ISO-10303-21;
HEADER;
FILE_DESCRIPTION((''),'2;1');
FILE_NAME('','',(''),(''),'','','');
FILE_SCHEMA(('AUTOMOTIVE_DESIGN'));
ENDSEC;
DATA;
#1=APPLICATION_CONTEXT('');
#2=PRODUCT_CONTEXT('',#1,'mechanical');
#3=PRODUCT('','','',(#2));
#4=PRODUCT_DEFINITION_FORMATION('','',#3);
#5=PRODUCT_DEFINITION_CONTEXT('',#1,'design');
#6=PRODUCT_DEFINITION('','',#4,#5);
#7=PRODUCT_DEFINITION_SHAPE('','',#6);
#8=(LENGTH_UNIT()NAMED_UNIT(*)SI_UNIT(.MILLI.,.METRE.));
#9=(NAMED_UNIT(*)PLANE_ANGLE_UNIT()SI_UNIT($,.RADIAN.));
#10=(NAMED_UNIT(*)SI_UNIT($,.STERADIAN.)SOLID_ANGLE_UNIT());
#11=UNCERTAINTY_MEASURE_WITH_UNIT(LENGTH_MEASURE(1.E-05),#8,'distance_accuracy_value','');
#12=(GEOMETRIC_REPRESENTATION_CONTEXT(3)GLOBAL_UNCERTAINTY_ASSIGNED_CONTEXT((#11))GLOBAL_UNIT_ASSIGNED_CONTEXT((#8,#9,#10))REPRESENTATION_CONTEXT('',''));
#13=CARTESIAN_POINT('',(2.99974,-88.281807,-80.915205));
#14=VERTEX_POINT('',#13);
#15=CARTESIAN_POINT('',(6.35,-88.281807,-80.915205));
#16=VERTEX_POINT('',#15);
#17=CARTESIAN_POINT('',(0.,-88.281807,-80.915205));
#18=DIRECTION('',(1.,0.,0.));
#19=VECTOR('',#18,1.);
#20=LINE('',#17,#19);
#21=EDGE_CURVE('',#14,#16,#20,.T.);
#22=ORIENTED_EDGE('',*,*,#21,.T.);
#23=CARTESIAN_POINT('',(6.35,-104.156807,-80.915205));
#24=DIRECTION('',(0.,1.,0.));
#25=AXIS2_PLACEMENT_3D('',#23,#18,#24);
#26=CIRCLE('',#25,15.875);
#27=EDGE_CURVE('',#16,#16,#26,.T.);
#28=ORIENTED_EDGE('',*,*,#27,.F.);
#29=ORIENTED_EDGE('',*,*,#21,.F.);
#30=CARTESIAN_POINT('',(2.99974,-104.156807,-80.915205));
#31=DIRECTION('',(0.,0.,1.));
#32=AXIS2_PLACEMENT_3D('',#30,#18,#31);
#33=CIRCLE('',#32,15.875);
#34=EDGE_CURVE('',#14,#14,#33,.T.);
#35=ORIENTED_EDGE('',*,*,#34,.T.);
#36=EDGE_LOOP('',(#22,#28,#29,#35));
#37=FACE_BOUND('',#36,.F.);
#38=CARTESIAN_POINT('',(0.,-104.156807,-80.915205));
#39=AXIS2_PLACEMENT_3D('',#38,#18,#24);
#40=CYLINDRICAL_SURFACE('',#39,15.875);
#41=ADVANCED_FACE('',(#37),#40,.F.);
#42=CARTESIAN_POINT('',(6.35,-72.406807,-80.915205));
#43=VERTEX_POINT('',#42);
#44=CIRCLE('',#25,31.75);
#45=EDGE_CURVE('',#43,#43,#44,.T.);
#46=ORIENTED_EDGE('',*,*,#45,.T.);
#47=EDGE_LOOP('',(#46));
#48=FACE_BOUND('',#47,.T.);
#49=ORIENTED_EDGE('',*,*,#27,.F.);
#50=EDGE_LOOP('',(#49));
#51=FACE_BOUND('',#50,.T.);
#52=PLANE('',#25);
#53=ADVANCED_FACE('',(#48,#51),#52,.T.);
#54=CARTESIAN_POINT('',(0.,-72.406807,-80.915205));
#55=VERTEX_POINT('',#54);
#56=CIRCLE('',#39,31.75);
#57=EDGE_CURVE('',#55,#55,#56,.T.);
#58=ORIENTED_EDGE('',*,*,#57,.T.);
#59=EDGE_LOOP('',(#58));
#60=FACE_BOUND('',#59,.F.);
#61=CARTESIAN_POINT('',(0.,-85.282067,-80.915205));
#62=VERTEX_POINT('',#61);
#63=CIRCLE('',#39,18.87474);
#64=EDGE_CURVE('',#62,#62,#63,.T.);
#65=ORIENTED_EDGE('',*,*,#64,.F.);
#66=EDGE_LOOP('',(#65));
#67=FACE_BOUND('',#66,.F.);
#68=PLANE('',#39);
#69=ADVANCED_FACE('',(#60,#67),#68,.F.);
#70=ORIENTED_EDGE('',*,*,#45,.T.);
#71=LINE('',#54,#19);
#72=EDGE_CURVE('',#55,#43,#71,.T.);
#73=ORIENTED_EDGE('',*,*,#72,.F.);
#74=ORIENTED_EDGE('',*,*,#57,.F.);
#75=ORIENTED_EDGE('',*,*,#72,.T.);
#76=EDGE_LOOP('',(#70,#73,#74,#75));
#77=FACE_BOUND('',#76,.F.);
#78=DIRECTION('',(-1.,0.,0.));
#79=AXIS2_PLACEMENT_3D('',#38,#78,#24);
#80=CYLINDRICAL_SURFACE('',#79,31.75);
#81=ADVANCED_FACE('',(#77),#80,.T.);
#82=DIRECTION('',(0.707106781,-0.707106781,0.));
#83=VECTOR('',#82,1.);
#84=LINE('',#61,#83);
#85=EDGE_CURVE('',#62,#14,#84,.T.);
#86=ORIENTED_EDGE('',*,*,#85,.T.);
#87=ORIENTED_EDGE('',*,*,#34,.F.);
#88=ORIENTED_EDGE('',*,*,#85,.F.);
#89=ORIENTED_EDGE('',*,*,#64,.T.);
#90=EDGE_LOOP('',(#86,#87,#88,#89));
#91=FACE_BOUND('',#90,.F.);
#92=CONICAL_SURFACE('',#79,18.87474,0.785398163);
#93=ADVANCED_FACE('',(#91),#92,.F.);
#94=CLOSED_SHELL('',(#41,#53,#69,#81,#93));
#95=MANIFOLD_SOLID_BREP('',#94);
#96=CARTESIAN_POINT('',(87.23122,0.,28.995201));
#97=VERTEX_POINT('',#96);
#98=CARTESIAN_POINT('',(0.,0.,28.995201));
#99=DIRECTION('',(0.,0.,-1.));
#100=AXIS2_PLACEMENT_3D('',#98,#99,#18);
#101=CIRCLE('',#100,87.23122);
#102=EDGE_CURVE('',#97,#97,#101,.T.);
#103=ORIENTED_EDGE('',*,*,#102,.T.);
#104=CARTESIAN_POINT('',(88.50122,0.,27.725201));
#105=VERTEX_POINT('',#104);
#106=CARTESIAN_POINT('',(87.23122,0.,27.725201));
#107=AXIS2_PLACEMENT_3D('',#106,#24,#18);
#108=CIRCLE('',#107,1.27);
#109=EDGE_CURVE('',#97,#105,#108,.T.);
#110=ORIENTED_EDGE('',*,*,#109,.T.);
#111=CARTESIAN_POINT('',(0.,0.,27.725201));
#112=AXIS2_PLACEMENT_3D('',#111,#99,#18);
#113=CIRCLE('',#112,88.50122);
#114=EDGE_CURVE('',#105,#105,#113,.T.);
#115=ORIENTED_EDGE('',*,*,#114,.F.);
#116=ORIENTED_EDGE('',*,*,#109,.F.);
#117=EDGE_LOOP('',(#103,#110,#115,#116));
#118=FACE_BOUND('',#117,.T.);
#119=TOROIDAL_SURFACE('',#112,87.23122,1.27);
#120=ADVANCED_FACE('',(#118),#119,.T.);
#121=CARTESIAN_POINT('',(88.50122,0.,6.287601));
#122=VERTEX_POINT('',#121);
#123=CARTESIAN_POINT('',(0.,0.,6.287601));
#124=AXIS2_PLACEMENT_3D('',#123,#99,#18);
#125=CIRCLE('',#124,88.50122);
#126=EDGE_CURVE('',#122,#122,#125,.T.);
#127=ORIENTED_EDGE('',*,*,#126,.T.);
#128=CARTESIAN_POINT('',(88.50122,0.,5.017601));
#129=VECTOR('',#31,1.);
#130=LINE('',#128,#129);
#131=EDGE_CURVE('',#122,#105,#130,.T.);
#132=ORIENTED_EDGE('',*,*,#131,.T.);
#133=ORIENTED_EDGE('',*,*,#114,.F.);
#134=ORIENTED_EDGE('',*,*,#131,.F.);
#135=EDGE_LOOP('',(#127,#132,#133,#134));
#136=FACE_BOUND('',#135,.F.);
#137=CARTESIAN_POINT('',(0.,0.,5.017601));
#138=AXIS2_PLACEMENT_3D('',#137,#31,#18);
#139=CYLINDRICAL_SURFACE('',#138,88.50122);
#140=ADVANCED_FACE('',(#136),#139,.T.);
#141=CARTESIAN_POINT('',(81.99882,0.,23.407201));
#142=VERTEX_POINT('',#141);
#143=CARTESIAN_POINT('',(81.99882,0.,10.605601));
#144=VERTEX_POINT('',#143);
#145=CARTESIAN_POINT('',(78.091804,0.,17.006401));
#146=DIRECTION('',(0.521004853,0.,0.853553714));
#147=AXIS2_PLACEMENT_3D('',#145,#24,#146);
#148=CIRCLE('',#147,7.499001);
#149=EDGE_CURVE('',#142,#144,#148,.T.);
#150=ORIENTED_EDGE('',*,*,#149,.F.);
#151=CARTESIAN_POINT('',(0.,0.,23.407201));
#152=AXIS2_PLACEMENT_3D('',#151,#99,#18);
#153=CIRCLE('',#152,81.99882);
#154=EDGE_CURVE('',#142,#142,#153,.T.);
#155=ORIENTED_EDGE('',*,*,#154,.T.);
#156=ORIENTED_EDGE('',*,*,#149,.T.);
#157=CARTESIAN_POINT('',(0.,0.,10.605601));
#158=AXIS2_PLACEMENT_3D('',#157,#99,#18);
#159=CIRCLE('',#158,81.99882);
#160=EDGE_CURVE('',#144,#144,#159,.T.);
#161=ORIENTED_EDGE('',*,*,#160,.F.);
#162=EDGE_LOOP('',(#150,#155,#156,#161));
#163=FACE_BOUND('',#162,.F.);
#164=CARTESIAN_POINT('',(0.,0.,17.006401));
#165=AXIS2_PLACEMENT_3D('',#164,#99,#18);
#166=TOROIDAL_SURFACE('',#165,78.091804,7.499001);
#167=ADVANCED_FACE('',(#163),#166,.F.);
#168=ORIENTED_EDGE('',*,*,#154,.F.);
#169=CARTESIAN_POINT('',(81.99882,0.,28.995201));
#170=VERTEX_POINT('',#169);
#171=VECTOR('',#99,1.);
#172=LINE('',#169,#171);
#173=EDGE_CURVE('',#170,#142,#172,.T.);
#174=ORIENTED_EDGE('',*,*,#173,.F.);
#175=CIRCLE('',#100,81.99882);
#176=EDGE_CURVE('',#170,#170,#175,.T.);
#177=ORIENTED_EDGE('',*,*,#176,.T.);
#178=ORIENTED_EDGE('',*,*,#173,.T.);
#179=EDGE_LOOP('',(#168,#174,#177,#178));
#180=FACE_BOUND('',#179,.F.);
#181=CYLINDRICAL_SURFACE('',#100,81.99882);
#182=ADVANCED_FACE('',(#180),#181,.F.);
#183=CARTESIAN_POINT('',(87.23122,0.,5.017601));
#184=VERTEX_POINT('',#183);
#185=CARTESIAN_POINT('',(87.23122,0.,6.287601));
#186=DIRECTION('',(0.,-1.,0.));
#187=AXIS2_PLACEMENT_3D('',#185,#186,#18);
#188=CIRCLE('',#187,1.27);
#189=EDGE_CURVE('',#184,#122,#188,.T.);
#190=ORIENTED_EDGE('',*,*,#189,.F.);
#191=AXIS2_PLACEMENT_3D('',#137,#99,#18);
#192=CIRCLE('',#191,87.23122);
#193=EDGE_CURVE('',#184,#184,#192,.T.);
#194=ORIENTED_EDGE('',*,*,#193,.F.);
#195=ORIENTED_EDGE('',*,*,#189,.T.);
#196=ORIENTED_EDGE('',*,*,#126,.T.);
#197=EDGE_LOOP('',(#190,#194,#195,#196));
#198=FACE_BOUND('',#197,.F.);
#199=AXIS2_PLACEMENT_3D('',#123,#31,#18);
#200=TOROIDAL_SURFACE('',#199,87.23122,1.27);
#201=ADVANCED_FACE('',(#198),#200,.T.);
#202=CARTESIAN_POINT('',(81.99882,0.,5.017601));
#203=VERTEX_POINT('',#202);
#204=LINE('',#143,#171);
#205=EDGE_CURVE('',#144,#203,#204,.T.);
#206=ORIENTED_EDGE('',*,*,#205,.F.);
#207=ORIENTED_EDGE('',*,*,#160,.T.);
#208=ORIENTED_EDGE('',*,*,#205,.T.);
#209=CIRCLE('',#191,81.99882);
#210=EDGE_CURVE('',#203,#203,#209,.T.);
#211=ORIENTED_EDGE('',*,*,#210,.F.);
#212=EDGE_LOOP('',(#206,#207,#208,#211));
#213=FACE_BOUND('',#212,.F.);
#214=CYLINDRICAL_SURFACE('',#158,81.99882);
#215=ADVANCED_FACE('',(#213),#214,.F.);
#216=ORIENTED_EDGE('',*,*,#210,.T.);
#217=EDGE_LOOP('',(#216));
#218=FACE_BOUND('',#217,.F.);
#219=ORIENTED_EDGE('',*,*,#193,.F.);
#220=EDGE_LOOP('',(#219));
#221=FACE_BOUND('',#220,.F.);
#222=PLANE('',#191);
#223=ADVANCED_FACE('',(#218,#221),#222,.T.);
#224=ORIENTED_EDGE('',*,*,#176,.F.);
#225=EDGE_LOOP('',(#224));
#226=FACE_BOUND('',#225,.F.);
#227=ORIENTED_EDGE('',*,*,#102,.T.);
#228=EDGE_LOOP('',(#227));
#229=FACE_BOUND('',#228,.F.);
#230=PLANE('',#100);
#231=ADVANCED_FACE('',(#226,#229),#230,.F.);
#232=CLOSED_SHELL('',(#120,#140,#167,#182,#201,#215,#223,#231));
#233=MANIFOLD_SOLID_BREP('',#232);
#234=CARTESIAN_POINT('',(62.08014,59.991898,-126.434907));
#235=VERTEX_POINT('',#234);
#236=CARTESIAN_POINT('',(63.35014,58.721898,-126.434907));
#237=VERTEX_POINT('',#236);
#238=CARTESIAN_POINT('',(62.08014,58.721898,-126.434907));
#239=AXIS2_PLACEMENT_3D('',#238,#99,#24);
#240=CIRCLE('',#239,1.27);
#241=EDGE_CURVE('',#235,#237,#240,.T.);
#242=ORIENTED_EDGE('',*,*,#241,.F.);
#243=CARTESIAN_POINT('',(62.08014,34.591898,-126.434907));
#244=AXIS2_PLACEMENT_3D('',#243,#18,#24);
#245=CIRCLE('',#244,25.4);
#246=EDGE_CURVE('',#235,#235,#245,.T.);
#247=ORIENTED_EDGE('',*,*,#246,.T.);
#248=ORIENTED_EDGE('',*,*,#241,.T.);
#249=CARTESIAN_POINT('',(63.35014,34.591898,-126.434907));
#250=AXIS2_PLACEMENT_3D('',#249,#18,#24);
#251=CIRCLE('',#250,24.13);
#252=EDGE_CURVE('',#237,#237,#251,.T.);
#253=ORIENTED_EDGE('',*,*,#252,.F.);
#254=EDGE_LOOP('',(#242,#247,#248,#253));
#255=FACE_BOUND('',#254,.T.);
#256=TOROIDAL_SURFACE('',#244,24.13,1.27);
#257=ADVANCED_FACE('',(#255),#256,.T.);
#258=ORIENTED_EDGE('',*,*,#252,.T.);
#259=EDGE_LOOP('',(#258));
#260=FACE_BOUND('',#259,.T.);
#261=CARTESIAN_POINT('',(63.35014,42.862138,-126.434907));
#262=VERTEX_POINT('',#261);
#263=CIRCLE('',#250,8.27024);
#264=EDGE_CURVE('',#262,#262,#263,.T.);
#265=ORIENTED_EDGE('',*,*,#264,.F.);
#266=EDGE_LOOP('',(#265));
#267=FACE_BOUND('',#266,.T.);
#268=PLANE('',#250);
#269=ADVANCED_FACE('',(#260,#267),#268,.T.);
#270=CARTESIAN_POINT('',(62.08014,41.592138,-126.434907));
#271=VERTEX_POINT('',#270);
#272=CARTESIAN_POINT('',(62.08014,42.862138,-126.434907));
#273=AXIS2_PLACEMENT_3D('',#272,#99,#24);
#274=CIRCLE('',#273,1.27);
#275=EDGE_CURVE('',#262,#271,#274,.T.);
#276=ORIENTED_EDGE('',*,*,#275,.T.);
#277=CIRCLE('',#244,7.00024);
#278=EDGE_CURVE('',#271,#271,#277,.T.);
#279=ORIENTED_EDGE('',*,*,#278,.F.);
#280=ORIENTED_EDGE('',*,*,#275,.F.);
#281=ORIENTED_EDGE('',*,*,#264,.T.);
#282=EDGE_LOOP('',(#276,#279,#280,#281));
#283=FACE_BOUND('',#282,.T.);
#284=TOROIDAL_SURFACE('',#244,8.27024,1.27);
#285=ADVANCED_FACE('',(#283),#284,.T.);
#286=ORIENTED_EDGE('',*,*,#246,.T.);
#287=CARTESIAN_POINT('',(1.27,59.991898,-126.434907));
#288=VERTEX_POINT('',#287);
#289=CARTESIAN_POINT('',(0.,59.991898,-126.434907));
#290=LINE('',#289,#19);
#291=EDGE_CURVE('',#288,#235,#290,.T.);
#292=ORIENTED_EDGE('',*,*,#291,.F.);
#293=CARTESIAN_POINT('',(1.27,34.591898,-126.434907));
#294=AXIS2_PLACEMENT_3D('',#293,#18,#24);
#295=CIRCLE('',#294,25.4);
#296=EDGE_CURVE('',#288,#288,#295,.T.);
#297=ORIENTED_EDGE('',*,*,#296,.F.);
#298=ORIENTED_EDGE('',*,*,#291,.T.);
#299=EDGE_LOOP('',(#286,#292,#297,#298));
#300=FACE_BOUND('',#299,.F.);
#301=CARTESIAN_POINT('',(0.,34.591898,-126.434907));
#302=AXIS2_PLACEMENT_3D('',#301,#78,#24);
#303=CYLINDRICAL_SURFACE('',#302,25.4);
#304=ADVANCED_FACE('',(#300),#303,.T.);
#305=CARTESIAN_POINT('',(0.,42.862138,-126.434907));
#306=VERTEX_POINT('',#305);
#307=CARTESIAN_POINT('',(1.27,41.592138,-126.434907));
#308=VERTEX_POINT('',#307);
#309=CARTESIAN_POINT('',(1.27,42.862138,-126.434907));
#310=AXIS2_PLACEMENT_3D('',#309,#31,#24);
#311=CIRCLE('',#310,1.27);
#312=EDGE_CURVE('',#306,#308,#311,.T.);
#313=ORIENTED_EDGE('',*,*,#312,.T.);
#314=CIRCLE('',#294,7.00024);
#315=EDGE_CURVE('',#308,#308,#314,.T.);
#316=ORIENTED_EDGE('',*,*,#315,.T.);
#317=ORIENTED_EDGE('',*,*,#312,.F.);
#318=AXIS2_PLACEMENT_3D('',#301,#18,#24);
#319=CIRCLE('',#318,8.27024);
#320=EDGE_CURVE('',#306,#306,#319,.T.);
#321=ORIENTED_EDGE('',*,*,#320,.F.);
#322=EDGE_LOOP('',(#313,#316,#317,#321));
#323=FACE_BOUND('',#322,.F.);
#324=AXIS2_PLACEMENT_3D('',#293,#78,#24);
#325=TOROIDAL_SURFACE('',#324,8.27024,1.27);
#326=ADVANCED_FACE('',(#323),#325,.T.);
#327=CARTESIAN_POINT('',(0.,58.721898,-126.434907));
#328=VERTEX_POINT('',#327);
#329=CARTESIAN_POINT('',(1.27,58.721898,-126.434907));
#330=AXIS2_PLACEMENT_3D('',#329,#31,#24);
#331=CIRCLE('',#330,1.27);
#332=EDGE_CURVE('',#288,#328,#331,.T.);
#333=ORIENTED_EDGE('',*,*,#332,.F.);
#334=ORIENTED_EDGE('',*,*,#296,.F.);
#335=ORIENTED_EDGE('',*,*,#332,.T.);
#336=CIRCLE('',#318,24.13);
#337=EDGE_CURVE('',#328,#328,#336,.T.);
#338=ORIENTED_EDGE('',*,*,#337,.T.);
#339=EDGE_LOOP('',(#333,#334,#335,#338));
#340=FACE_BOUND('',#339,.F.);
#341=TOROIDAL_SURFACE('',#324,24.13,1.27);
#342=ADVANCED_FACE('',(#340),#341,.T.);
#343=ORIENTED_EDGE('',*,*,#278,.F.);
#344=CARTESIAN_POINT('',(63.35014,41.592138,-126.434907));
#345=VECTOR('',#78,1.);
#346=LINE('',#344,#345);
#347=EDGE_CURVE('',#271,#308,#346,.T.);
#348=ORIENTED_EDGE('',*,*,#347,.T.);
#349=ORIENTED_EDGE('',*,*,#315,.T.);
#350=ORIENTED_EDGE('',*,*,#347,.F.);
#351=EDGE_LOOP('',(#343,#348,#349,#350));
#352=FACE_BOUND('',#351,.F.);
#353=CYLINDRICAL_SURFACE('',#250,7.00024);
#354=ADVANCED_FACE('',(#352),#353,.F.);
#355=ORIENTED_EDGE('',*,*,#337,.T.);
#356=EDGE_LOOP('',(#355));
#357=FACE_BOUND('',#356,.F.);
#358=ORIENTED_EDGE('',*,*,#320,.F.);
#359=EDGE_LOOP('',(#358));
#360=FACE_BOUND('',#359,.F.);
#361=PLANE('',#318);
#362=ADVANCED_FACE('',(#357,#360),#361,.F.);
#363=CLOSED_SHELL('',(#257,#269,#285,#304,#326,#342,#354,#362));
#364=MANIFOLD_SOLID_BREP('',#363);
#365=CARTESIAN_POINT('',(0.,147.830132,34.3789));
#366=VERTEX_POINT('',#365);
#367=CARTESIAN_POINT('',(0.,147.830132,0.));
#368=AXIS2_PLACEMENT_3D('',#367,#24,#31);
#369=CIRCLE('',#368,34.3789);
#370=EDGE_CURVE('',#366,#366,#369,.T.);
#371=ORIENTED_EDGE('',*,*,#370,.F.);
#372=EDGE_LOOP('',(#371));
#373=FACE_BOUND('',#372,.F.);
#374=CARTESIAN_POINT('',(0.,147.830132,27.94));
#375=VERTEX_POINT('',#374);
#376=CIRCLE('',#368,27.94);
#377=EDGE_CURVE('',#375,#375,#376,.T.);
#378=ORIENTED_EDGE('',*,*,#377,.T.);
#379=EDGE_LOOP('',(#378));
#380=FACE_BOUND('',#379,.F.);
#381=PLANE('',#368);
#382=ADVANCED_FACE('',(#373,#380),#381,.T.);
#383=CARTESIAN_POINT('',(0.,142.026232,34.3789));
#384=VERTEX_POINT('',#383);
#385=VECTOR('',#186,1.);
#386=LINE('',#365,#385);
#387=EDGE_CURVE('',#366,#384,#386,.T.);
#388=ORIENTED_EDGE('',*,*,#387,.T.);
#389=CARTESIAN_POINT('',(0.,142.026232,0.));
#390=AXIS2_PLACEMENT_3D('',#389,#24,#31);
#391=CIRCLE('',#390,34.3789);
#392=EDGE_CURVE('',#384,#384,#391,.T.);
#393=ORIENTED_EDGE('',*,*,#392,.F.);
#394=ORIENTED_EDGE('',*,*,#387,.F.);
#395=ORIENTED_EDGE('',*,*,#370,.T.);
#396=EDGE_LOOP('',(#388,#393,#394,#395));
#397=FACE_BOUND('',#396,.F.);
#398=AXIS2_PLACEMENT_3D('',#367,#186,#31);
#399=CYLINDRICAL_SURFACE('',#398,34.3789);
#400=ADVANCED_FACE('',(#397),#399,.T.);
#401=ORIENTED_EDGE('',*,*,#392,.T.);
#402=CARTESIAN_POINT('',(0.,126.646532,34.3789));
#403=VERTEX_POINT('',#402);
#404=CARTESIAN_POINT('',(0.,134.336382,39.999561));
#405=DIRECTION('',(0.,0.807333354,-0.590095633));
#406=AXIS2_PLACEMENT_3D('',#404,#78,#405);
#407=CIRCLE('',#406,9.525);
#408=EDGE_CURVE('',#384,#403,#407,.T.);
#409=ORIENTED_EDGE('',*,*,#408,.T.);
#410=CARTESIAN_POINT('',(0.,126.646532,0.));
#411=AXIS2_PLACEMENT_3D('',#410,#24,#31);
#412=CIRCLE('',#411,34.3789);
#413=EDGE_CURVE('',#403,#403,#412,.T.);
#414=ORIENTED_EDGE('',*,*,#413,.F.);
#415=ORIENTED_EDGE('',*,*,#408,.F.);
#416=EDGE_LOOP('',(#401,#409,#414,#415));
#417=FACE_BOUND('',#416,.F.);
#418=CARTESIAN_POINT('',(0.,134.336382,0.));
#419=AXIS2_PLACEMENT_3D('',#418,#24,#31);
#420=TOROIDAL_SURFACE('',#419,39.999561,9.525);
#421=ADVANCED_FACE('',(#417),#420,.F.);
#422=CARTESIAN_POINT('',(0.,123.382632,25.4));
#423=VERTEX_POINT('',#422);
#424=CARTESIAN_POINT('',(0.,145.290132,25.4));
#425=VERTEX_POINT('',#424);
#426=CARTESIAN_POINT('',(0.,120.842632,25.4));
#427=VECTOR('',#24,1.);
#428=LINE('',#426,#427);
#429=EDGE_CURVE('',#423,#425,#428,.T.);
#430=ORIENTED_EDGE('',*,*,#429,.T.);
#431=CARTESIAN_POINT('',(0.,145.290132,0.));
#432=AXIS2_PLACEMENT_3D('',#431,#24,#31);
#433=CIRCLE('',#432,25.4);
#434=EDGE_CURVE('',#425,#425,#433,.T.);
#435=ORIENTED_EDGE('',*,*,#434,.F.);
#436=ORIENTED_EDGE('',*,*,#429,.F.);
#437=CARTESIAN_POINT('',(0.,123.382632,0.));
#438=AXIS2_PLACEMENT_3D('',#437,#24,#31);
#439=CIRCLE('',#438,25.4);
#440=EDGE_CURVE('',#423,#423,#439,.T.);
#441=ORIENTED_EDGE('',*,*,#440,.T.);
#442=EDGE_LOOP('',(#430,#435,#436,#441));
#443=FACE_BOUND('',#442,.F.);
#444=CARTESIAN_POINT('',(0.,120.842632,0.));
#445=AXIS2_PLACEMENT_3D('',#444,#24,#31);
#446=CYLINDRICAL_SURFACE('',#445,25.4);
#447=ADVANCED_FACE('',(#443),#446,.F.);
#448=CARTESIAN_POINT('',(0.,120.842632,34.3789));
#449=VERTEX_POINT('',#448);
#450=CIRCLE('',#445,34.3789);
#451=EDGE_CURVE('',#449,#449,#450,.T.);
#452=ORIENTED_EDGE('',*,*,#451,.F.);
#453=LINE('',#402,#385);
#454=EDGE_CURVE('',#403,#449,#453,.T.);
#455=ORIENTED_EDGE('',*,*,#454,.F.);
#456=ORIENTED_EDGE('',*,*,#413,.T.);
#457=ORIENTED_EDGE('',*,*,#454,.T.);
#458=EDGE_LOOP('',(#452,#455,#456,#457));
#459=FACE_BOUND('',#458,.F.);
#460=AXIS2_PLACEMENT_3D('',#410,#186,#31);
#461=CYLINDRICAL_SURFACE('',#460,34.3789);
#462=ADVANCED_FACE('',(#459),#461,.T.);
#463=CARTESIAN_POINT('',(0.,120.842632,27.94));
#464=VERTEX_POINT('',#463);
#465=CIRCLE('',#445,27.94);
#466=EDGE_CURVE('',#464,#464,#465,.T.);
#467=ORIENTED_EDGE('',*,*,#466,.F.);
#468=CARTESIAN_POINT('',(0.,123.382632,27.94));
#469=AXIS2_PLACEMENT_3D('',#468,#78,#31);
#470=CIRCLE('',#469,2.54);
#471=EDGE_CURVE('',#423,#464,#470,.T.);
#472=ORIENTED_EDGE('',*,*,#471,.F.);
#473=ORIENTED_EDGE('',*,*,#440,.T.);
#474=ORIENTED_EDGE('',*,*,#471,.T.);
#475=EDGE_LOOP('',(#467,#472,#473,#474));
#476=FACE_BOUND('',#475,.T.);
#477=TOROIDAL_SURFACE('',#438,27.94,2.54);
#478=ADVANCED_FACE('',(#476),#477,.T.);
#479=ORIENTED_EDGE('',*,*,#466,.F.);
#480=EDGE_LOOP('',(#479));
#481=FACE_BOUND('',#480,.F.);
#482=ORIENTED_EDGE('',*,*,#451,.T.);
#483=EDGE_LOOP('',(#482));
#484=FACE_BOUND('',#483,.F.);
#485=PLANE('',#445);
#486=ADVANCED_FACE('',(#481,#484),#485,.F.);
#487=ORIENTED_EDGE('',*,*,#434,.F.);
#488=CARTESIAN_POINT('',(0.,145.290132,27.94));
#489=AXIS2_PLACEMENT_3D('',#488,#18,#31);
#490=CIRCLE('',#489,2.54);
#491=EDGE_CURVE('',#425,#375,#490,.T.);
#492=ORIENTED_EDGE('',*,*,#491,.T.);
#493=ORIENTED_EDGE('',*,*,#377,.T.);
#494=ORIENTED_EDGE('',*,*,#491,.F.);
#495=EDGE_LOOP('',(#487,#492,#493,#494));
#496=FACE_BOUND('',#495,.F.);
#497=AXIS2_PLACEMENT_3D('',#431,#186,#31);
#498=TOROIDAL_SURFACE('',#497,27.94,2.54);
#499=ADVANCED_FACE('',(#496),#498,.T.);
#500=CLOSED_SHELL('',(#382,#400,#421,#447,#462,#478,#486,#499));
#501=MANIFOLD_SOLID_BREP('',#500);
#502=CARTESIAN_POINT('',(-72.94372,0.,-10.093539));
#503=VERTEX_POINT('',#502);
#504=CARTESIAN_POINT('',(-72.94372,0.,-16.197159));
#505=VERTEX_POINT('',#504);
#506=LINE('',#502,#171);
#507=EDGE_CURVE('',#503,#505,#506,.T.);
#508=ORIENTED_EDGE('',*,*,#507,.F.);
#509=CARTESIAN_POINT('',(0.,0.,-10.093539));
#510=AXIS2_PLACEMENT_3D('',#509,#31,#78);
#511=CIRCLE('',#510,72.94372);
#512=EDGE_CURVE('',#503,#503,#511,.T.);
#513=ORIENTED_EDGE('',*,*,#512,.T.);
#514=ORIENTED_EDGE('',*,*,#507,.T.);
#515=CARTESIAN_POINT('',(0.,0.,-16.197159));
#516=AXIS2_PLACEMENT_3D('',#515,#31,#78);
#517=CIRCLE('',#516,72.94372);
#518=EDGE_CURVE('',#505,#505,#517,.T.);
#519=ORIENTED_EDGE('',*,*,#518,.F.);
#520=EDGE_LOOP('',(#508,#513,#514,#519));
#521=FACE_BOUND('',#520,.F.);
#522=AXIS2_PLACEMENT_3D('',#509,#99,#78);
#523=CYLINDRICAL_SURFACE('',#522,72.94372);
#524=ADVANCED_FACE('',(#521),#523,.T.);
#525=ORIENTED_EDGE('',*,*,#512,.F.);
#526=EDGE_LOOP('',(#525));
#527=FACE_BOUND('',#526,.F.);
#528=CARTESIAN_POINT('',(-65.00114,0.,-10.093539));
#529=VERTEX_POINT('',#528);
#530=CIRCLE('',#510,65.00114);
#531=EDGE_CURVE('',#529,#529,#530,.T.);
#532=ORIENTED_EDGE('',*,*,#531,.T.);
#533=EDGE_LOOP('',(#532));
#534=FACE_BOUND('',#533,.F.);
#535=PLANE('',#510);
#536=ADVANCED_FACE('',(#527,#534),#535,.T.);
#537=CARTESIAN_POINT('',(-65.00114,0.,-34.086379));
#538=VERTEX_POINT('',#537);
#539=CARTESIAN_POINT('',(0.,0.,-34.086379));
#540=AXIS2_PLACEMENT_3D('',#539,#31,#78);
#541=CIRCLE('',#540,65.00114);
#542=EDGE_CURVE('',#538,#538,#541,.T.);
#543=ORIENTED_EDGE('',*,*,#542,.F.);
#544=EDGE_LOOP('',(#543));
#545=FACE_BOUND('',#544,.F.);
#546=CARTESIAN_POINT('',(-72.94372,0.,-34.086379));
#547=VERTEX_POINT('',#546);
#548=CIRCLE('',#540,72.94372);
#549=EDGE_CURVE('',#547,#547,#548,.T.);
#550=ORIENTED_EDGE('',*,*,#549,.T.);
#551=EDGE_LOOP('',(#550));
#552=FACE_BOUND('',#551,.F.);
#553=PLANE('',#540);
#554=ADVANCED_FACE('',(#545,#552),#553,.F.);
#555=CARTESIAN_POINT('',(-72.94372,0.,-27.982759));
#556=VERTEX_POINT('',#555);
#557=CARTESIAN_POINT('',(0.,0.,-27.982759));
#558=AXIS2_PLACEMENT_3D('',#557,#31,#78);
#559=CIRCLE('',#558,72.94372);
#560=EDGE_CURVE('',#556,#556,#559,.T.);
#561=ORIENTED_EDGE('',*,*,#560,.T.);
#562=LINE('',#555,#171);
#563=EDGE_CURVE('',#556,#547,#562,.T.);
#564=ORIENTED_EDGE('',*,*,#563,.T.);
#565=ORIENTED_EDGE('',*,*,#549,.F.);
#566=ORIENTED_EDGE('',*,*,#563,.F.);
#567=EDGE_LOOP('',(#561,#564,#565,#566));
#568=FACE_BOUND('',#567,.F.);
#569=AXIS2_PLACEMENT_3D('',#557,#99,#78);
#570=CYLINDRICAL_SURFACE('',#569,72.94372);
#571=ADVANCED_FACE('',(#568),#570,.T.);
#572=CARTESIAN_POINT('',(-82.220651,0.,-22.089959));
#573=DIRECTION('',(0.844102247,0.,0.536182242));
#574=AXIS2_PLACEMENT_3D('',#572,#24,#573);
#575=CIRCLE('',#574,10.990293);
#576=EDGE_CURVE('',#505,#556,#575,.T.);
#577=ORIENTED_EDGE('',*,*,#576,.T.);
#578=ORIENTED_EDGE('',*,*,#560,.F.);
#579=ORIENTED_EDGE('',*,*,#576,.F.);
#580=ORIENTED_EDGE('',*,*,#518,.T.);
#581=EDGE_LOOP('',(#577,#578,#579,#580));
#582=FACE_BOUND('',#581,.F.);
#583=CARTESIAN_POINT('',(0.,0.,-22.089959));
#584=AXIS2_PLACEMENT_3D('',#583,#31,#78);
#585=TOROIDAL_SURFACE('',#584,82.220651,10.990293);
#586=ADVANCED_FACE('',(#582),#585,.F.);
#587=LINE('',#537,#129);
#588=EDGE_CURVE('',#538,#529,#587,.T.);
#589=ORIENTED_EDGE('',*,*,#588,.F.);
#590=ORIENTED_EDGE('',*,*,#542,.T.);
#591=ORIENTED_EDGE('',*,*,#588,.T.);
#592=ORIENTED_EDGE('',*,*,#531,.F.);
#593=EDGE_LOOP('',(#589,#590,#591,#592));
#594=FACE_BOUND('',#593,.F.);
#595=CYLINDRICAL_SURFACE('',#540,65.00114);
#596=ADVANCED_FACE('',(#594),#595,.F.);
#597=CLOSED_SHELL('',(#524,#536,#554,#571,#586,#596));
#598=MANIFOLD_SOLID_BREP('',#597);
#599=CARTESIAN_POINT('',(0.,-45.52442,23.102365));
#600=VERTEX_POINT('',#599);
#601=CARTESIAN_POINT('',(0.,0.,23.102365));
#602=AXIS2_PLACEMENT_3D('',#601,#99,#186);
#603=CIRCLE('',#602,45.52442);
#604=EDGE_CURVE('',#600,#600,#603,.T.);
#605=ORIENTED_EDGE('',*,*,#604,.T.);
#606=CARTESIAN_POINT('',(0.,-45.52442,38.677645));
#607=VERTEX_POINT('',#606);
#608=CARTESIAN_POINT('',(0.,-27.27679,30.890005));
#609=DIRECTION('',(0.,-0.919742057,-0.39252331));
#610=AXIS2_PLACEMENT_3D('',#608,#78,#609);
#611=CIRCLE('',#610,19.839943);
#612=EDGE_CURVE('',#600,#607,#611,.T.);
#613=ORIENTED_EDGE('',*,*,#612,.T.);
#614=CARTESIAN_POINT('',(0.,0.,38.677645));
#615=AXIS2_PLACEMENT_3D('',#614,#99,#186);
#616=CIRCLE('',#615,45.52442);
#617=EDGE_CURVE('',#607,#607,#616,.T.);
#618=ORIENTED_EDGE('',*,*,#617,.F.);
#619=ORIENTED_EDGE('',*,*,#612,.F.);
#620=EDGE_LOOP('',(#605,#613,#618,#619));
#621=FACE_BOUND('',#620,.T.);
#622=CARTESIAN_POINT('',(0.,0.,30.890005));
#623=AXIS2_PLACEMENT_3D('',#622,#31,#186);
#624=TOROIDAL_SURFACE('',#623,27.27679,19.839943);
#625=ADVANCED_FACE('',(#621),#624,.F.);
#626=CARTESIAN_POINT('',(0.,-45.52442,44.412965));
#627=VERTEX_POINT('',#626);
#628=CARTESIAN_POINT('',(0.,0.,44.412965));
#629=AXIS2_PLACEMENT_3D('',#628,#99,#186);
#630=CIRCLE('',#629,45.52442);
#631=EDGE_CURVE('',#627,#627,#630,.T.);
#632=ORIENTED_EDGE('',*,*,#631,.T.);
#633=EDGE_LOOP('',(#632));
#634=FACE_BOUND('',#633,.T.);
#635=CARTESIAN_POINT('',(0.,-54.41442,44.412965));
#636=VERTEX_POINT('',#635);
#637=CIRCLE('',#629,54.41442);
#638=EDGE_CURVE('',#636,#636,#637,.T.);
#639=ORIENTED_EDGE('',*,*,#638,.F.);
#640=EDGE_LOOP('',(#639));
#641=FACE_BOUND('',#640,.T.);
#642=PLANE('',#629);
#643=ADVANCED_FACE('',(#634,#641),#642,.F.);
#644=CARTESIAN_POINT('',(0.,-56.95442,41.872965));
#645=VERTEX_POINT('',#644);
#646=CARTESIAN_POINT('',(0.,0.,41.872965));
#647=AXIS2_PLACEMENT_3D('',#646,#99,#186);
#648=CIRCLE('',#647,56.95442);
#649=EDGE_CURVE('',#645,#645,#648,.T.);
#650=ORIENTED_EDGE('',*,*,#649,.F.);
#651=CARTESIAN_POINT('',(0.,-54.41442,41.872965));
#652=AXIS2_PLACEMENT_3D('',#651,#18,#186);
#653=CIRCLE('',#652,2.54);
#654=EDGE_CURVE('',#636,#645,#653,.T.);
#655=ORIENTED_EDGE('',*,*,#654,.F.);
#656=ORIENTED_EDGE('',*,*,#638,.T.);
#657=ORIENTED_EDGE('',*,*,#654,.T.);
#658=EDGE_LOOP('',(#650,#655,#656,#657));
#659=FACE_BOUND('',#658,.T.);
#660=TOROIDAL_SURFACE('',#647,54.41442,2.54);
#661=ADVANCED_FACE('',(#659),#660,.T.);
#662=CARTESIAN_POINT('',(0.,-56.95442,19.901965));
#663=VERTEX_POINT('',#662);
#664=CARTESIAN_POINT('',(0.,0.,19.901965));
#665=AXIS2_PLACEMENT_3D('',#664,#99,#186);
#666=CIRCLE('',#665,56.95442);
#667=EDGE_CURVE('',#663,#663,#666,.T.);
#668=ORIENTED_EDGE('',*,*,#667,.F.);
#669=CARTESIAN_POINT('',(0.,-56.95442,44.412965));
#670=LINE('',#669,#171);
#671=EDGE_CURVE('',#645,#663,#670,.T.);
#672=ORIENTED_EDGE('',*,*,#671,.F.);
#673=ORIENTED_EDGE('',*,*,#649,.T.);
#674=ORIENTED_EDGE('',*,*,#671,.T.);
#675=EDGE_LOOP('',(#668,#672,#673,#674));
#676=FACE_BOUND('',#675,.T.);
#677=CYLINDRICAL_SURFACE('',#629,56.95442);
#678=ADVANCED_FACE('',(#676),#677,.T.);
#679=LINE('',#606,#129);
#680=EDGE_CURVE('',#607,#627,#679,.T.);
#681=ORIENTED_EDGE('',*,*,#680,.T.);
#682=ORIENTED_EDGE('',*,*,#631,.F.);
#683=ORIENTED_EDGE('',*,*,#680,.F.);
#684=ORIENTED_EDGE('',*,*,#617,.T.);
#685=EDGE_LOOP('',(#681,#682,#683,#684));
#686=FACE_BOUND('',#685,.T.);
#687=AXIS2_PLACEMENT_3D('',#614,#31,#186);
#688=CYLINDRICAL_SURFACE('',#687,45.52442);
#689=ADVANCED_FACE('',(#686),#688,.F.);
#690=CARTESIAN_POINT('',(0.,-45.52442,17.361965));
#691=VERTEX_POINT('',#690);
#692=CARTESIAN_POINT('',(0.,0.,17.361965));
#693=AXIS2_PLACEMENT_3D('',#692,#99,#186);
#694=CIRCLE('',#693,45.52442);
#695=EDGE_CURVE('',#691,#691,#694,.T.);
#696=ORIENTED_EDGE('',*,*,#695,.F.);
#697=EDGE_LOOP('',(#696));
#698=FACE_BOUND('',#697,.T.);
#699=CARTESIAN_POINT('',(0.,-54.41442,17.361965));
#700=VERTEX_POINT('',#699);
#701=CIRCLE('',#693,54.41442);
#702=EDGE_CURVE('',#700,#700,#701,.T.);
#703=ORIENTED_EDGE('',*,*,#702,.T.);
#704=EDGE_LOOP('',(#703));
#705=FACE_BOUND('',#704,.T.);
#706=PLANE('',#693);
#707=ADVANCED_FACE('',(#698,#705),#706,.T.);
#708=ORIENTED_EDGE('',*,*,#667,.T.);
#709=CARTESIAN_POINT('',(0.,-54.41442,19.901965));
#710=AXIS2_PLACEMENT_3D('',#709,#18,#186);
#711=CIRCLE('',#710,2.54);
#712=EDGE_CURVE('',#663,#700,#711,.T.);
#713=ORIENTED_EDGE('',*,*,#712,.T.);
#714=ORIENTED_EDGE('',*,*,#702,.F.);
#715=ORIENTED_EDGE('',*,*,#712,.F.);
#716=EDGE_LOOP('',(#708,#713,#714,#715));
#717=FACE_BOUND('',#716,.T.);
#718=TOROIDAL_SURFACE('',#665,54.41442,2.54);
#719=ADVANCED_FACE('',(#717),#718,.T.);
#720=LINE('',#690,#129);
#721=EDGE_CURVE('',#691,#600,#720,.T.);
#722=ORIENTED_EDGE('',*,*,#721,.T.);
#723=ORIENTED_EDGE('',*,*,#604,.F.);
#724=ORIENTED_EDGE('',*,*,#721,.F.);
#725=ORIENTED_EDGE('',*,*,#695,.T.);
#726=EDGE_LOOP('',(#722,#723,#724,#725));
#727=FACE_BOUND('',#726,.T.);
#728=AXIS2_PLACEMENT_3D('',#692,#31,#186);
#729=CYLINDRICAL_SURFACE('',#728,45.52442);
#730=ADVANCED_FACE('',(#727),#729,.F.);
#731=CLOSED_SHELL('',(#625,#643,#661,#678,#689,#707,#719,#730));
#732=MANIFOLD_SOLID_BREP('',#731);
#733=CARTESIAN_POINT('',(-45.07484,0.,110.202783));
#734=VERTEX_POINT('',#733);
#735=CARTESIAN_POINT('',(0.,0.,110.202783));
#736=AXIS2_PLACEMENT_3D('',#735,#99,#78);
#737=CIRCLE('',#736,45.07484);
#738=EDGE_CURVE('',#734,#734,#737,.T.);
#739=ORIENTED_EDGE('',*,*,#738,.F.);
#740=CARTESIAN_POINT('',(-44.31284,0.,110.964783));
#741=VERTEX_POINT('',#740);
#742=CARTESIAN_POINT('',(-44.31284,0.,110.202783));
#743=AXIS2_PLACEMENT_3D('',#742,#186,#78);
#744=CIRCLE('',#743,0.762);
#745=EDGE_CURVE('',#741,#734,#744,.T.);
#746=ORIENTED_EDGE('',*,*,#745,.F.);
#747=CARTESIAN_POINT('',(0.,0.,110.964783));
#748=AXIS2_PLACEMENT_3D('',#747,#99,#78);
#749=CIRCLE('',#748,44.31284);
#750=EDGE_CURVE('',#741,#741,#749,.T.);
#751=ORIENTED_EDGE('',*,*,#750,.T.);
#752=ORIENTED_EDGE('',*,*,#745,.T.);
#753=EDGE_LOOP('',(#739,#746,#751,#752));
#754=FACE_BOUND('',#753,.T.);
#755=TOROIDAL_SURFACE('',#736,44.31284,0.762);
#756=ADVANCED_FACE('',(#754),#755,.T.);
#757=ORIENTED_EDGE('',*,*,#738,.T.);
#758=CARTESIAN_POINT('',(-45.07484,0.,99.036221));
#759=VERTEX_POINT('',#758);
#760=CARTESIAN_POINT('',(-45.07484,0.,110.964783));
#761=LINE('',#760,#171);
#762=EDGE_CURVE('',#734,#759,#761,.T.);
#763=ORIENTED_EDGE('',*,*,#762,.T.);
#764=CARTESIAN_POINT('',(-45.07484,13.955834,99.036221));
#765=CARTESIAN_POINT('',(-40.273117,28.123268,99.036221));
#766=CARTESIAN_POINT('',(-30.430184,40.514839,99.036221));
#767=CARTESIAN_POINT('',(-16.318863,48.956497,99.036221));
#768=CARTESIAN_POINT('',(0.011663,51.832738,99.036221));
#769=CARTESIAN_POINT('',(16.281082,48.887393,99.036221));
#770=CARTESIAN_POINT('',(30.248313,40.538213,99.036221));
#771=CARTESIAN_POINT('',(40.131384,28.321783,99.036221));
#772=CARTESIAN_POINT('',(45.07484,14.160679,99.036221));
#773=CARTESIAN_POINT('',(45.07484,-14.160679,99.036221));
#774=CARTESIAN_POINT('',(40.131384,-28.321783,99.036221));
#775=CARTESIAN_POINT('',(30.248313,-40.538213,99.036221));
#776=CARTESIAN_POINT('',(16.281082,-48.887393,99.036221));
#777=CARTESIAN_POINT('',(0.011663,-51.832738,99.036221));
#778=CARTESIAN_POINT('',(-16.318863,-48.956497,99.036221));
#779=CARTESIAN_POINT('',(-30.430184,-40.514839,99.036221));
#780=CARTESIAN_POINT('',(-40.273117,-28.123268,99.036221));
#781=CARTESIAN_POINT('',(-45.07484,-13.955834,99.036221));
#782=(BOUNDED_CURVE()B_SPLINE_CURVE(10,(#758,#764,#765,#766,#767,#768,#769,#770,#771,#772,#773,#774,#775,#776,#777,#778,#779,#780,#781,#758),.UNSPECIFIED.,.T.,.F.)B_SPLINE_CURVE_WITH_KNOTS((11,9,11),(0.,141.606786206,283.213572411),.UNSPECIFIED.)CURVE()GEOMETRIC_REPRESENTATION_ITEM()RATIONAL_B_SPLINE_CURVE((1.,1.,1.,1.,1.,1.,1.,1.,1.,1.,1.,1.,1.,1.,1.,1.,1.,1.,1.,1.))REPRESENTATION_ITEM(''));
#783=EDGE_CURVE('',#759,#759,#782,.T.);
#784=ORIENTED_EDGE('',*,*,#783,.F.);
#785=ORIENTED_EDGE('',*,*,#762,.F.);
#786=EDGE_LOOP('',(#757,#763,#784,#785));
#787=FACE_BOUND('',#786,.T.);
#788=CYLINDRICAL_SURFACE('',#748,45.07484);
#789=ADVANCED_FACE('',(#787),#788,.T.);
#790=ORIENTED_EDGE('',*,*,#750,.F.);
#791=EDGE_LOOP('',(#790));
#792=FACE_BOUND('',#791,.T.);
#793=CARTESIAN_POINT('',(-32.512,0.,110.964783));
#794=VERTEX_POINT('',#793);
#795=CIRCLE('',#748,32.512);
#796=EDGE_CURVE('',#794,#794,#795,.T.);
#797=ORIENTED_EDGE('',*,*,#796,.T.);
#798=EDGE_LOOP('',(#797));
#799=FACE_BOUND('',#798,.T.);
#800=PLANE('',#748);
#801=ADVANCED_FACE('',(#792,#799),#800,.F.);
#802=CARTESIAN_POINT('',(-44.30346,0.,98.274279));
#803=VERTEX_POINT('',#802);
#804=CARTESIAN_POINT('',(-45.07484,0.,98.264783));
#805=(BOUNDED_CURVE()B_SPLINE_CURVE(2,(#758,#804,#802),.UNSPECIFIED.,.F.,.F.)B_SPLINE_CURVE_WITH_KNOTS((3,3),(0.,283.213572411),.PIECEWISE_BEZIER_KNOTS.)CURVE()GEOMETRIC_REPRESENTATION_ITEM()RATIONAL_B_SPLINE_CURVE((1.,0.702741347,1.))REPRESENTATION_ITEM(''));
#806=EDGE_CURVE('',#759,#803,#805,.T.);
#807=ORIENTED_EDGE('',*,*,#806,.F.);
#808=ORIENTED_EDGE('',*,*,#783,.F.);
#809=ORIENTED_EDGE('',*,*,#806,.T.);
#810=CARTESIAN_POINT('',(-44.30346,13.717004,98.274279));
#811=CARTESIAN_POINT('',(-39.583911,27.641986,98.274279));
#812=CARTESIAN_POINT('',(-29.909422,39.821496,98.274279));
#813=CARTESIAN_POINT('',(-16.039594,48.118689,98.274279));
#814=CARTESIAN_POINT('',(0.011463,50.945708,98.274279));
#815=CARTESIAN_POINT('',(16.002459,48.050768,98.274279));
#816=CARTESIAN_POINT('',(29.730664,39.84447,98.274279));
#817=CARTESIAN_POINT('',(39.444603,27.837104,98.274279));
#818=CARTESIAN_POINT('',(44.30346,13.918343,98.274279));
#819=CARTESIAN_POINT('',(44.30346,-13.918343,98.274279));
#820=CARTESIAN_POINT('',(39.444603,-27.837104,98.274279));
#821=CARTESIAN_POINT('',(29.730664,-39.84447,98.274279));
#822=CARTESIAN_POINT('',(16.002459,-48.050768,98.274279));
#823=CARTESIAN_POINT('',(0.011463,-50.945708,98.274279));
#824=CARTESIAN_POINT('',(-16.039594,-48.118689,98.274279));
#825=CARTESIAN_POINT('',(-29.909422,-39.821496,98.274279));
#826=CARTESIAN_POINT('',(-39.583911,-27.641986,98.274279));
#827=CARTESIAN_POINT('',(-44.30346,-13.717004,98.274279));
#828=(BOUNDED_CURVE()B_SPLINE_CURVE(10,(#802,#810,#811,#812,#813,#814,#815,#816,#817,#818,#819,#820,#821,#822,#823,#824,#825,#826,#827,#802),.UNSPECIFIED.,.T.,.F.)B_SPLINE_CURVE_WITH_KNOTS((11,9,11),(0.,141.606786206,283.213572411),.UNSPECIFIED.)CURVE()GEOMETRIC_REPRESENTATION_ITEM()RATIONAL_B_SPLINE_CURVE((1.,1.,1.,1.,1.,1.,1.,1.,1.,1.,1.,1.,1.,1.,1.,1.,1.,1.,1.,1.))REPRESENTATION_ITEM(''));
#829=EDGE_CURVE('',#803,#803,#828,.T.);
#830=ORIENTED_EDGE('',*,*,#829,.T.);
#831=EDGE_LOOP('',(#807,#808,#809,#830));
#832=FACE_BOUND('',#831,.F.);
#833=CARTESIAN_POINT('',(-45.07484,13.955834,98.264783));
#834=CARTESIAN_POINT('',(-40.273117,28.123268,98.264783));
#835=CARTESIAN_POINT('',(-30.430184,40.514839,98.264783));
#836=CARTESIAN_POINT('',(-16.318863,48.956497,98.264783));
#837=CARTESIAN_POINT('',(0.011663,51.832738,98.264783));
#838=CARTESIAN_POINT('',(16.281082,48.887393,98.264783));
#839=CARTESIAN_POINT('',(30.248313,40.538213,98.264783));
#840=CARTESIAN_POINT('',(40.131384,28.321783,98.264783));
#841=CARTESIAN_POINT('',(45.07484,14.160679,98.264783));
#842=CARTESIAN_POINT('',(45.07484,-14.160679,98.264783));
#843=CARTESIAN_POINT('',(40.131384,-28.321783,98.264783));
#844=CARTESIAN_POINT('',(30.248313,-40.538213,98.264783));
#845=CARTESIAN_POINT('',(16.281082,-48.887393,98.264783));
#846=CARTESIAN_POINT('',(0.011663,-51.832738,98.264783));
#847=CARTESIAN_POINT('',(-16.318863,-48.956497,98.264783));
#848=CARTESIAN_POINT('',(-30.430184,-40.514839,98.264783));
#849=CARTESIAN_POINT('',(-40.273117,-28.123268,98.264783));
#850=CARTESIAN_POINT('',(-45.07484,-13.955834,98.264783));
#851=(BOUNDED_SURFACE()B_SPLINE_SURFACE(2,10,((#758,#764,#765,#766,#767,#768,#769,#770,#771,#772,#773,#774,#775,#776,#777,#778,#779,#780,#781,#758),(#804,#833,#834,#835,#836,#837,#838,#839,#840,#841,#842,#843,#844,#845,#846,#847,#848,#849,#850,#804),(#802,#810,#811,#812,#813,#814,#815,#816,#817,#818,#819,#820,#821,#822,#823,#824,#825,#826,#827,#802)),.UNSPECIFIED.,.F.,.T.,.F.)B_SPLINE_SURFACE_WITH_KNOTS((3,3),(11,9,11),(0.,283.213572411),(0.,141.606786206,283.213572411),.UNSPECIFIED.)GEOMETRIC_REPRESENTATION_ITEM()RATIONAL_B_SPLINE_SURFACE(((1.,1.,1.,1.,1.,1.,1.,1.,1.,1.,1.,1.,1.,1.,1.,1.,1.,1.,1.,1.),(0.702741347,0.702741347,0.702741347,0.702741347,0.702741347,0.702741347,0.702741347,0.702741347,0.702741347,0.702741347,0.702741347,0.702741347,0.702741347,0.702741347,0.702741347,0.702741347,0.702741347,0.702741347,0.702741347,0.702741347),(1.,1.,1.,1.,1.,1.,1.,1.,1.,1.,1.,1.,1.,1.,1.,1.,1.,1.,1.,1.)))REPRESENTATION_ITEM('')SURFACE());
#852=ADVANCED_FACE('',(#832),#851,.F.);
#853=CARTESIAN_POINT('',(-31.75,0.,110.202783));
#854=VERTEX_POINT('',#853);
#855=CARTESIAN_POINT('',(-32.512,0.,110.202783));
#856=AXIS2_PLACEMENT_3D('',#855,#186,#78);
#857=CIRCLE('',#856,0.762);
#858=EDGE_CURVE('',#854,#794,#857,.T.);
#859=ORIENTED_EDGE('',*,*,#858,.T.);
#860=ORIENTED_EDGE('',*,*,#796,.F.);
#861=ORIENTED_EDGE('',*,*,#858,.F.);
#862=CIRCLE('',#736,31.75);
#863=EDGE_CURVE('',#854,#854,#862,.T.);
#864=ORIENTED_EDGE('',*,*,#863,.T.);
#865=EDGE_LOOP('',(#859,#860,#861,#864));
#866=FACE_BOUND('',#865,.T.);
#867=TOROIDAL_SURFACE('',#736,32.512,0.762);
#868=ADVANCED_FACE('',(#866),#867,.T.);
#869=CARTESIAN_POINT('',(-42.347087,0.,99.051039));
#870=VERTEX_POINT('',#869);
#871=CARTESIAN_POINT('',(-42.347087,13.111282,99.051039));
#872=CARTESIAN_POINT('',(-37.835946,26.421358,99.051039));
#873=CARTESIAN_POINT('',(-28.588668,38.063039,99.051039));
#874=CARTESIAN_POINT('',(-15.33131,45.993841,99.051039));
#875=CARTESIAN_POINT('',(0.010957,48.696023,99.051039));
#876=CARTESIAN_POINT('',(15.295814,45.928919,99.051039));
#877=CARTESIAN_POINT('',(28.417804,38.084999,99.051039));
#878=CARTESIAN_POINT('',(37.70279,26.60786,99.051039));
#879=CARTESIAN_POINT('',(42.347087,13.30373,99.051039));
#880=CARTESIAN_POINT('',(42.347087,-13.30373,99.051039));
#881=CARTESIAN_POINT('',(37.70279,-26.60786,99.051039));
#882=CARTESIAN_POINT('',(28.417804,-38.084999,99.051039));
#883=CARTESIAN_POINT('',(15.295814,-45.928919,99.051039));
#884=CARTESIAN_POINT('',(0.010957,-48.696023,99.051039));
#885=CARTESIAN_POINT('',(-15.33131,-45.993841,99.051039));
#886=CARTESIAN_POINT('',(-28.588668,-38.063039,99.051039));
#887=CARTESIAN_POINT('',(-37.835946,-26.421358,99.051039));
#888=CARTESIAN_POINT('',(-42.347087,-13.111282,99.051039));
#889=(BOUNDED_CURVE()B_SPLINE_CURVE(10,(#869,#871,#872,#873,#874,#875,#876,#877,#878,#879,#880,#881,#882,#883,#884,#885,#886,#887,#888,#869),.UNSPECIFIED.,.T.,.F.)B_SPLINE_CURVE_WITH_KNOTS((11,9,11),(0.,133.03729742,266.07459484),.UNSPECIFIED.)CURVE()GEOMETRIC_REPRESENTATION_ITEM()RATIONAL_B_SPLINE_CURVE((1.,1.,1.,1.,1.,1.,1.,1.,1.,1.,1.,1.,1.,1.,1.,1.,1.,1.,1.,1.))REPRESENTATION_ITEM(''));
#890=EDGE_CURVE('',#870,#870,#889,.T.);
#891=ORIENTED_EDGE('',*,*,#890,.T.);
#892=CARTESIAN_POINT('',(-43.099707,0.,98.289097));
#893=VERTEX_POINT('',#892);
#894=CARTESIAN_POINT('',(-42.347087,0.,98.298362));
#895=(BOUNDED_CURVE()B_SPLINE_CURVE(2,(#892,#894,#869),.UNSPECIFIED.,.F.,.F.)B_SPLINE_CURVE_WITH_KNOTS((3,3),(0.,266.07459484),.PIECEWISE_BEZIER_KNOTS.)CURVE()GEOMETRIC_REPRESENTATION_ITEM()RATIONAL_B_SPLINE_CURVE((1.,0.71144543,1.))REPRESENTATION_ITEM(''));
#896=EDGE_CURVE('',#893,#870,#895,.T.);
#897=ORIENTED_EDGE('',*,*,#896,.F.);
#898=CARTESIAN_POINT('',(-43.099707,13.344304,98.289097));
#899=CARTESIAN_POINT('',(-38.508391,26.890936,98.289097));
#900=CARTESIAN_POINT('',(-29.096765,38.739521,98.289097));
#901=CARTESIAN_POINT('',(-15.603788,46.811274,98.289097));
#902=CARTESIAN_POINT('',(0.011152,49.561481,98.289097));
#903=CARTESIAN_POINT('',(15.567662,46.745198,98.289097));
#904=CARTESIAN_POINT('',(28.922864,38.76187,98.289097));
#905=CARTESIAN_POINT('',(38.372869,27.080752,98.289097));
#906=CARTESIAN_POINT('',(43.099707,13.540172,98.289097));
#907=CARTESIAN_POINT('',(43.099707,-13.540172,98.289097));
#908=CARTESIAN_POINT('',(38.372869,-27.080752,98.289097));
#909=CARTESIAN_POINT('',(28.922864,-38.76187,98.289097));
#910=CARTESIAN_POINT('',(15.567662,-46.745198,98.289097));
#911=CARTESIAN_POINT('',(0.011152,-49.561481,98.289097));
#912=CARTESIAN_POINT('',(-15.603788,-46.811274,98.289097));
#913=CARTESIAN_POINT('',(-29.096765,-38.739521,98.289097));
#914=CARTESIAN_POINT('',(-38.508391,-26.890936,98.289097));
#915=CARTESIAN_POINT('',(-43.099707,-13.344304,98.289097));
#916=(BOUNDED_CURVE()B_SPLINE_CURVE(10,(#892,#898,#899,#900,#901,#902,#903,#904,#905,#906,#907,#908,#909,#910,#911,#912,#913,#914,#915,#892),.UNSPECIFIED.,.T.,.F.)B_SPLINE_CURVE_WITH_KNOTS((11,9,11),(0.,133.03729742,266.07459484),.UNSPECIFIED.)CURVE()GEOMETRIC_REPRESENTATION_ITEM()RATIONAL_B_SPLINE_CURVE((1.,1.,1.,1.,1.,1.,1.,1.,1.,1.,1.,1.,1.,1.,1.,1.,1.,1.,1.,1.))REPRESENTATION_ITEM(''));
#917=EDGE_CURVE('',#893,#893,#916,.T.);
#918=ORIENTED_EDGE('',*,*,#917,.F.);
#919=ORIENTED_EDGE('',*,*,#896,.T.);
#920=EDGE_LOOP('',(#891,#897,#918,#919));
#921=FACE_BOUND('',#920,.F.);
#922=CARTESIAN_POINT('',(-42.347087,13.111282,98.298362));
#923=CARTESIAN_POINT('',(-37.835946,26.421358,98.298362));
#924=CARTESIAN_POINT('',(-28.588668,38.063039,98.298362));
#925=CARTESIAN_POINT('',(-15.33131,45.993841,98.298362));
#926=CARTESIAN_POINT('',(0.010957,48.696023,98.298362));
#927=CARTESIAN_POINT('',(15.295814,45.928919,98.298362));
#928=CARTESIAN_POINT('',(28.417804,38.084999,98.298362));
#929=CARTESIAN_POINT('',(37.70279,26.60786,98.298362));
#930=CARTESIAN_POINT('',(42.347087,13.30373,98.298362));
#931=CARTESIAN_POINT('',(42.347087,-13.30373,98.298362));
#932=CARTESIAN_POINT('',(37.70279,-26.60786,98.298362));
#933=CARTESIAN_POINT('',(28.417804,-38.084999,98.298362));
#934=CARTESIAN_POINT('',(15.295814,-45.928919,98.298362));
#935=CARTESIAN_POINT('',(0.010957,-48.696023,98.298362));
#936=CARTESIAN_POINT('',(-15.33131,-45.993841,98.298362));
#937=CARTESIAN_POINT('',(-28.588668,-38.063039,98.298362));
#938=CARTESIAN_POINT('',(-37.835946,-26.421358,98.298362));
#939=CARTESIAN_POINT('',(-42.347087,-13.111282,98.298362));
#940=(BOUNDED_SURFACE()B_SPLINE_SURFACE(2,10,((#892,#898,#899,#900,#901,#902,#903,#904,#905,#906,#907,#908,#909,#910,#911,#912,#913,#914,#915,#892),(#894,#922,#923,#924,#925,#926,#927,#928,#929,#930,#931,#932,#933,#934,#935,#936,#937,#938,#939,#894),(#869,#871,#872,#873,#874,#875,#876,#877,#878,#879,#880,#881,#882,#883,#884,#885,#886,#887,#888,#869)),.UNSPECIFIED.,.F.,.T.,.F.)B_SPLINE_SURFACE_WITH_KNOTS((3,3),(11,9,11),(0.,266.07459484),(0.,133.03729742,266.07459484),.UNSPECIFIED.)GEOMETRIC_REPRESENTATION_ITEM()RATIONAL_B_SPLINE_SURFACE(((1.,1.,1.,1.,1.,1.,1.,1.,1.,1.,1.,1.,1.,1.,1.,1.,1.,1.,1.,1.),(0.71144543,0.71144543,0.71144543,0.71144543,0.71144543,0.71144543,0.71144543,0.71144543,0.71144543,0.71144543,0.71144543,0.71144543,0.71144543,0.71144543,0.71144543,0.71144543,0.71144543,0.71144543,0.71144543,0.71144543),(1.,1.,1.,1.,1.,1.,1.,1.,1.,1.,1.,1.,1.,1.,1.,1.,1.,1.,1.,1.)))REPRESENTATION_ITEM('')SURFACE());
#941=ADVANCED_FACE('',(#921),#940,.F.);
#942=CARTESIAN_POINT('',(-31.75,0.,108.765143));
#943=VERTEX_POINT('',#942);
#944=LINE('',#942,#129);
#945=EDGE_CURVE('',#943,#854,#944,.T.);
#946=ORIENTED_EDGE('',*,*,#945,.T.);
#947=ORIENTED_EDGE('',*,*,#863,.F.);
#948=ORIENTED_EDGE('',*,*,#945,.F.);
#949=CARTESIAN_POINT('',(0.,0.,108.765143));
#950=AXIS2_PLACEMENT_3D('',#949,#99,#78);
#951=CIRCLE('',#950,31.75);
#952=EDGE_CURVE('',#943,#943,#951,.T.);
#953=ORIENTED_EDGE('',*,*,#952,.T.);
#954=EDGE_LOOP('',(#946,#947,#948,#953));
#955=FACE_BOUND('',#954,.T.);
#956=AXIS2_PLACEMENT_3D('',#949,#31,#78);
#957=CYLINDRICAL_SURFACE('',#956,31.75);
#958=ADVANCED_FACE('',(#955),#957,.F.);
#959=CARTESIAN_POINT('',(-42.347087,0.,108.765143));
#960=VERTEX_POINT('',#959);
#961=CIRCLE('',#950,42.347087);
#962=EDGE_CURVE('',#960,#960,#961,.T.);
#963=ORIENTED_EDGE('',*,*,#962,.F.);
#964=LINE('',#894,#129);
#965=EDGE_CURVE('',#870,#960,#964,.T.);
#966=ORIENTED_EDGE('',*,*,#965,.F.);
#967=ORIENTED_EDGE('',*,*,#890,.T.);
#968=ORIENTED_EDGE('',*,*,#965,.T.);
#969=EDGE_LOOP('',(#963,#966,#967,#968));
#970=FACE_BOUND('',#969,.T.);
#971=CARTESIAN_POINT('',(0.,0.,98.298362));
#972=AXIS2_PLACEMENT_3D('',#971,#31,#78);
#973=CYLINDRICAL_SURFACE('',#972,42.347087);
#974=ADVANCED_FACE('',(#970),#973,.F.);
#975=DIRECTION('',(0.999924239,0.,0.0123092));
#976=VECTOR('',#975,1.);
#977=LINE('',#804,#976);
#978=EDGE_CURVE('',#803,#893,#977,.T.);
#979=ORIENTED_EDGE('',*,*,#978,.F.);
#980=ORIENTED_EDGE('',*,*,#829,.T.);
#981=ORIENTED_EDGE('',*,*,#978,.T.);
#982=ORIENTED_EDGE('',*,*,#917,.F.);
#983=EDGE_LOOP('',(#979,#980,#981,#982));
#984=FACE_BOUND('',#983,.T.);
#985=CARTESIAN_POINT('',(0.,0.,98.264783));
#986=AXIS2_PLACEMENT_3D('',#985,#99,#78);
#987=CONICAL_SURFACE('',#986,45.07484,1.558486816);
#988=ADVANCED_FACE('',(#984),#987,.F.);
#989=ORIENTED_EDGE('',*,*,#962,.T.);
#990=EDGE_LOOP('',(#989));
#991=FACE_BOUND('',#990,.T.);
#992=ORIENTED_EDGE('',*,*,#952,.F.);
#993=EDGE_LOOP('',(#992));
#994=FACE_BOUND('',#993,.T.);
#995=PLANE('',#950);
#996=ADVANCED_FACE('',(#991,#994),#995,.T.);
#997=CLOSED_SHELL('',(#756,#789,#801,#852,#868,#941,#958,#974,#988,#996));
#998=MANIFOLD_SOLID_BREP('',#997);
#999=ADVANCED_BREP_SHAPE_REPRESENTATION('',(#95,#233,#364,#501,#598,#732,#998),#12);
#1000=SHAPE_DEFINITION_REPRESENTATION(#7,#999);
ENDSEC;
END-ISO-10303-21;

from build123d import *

# Parameters (mm, degrees)
F2_R            = 1.27
F5_R            = 25.4
F6_DEPTH        = 63.35014
F7_R            = 7.00024
F8_DEPTH        = 159.258
F9_R            = 1.27
F12_R           = 2.54
F15_R           = 0.762
F16_R           = 31.75
F17_DEPTH       = 6.35
F19_D           = 31.75
F19_DEPTH       = 50.8
F19_CSINK_D     = 37.74948
F19_CSINK_ANGLE = 90
F22_R           = 2.54


with BuildPart() as f1:
    # F0 (on Front) → F1 (revolve)
    with BuildSketch(Plane.XZ):
        with BuildLine():
            Line((88.50122, 28.995201), (81.99882, 28.995201))
            Line((81.99882, 28.995201), (81.99882, 23.407201))
            ThreePointArc((81.99882, 23.407201), (85.590805, 17.006401), (81.99882, 10.605601))
            Line((81.99882, 10.605601), (81.99882, 5.017601))
            Line((81.99882, 5.017601), (88.50122, 5.017601))
            Line((88.50122, 5.017601), (88.50122, 28.995201))
        make_face()
    revolve(axis=Axis((0, 0, -0.341533), (0, 0, -1)))

    # F2
    f2_edges = [f1.edges().sort_by_distance(p)[0] for p in [
        (-88.50122, 0, 5.017601),
        (-88.50122, 0, 28.995201),
    ]]
    fillet(f2_edges, radius=F2_R)


with BuildPart() as f4:
    # F3 (on Front) → F4 (revolve)
    with BuildSketch(Plane.XZ):
        with BuildLine():
            Line((-72.94372, -34.086379), (-65.00114, -34.086379))
            Line((-65.00114, -34.086379), (-65.00114, -10.093539))
            Line((-65.00114, -10.093539), (-72.94372, -10.093539))
            Line((-72.94372, -10.093539), (-72.94372, -16.197159))
            ThreePointArc((-72.94372, -16.197159), (-71.230358, -22.089959), (-72.94372, -27.982759))
            Line((-72.94372, -27.982759), (-72.94372, -34.086379))
        make_face()
    revolve(axis=Axis((0, 0, 0.330931), (0, 0, 1)))


with BuildPart() as f6:
    # F5 (on Right) → F6 (new body)
    with BuildSketch(Plane.YZ):
        with Locations((34.591898, -126.434907)):
            Circle(F5_R)
    extrude(amount=F6_DEPTH)

    # F7 (on face) → F8 (cut)
    with BuildSketch(Plane.YZ.offset(63.35014)):
        with Locations((34.591898, -126.434907)):
            Circle(F7_R)
    extrude(amount=-F8_DEPTH, mode=Mode.SUBTRACT)

    # F9
    f9_edges = [f6.edges().sort_by_distance(p)[0] for p in [
        (63.35014, 9.191898, -126.434907),
        (63.35014, 27.591658, -126.434907),
        (0, 9.191898, -126.434907),
        (0, 27.591658, -126.434907),
    ]]
    fillet(f9_edges, radius=F9_R)


with BuildPart() as f11:
    # F10 (on Right) → F11 (revolve)
    with BuildSketch(Plane.YZ):
        with BuildLine():
            Line((-45.52442, 44.412965), (-56.95442, 44.412965))
            Line((-56.95442, 44.412965), (-56.95442, 17.361965))
            Line((-56.95442, 17.361965), (-45.52442, 17.361965))
            Line((-45.52442, 17.361965), (-45.52442, 23.102365))
            ThreePointArc((-45.52442, 23.102365), (-47.116733, 30.890005), (-45.52442, 38.677645))
            Line((-45.52442, 38.677645), (-45.52442, 44.412965))
        make_face()
    revolve(axis=Axis((0, 0, -0.500083), (0, 0, -1)))

    # F12
    f12_edges = [f11.edges().sort_by_distance(p)[0] for p in [
        (0, 56.95442, 44.412965),
        (0, 56.95442, 17.361965),
    ]]
    fillet(f12_edges, radius=F12_R)


with BuildPart() as f14:
    # F13 (on Front) → F14 (revolve)
    with BuildSketch(Plane.XZ):
        Polygon((-31.75, 108.765143), (-31.75, 110.964783), (-45.07484, 110.964783), (-45.07484, 98.264783), (-42.347087, 98.298362), (-42.347087, 108.765143), align=None)
    revolve(axis=Axis((0, 0, 0.443307), (0, 0, -1)))

    # F15
    f15_edges = [f14.edges().sort_by_distance(p)[0] for p in [
        (31.75, 0, 110.964783),
        (45.07484, 0, 98.264783),
        (45.07484, 0, 110.964783),
        (42.347087, 0, 98.298362),
    ]]
    fillet(f15_edges, radius=F15_R)


with BuildPart() as f17:
    # F16 (on Right) → F17 (new body)
    with BuildSketch(Plane.YZ):
        with Locations((-104.156807, -80.915205)):
            Circle(F16_R)
    extrude(amount=F17_DEPTH)

    # F19
    with Locations(Plane(origin=(0, 0, 0), x_dir=(0, -1, 0), z_dir=(-1, 0, 0))):
        with Locations((104.156807, -80.915205)):
            CounterSinkHole(F19_D / 2, F19_CSINK_D / 2, depth=F19_DEPTH, counter_sink_angle=F19_CSINK_ANGLE)


with BuildPart() as f21:
    # F20 (on Right) → F21 (revolve)
    with BuildSketch(Plane.YZ):
        with BuildLine():
            Line((120.842632, 25.4), (147.830132, 25.4))
            Line((147.830132, 25.4), (147.830132, 34.3789))
            Line((147.830132, 34.3789), (142.026232, 34.3789))
            ThreePointArc((142.026232, 34.3789), (134.336382, 30.474561), (126.646532, 34.3789))
            Line((126.646532, 34.3789), (120.842632, 34.3789))
            Line((120.842632, 34.3789), (120.842632, 25.4))
        make_face()
    revolve(axis=Axis((0, 68.931224, 0), (0, 1, 0)))

    # F22
    f22_edges = [f21.edges().sort_by_distance(p)[0] for p in [
        (0, 147.830132, -25.4),
        (0, 120.842632, -25.4),
    ]]
    fillet(f22_edges, radius=F22_R)


solid = Compound([f1.part, f4.part, f6.part, f11.part, f14.part, f17.part, f21.part])
